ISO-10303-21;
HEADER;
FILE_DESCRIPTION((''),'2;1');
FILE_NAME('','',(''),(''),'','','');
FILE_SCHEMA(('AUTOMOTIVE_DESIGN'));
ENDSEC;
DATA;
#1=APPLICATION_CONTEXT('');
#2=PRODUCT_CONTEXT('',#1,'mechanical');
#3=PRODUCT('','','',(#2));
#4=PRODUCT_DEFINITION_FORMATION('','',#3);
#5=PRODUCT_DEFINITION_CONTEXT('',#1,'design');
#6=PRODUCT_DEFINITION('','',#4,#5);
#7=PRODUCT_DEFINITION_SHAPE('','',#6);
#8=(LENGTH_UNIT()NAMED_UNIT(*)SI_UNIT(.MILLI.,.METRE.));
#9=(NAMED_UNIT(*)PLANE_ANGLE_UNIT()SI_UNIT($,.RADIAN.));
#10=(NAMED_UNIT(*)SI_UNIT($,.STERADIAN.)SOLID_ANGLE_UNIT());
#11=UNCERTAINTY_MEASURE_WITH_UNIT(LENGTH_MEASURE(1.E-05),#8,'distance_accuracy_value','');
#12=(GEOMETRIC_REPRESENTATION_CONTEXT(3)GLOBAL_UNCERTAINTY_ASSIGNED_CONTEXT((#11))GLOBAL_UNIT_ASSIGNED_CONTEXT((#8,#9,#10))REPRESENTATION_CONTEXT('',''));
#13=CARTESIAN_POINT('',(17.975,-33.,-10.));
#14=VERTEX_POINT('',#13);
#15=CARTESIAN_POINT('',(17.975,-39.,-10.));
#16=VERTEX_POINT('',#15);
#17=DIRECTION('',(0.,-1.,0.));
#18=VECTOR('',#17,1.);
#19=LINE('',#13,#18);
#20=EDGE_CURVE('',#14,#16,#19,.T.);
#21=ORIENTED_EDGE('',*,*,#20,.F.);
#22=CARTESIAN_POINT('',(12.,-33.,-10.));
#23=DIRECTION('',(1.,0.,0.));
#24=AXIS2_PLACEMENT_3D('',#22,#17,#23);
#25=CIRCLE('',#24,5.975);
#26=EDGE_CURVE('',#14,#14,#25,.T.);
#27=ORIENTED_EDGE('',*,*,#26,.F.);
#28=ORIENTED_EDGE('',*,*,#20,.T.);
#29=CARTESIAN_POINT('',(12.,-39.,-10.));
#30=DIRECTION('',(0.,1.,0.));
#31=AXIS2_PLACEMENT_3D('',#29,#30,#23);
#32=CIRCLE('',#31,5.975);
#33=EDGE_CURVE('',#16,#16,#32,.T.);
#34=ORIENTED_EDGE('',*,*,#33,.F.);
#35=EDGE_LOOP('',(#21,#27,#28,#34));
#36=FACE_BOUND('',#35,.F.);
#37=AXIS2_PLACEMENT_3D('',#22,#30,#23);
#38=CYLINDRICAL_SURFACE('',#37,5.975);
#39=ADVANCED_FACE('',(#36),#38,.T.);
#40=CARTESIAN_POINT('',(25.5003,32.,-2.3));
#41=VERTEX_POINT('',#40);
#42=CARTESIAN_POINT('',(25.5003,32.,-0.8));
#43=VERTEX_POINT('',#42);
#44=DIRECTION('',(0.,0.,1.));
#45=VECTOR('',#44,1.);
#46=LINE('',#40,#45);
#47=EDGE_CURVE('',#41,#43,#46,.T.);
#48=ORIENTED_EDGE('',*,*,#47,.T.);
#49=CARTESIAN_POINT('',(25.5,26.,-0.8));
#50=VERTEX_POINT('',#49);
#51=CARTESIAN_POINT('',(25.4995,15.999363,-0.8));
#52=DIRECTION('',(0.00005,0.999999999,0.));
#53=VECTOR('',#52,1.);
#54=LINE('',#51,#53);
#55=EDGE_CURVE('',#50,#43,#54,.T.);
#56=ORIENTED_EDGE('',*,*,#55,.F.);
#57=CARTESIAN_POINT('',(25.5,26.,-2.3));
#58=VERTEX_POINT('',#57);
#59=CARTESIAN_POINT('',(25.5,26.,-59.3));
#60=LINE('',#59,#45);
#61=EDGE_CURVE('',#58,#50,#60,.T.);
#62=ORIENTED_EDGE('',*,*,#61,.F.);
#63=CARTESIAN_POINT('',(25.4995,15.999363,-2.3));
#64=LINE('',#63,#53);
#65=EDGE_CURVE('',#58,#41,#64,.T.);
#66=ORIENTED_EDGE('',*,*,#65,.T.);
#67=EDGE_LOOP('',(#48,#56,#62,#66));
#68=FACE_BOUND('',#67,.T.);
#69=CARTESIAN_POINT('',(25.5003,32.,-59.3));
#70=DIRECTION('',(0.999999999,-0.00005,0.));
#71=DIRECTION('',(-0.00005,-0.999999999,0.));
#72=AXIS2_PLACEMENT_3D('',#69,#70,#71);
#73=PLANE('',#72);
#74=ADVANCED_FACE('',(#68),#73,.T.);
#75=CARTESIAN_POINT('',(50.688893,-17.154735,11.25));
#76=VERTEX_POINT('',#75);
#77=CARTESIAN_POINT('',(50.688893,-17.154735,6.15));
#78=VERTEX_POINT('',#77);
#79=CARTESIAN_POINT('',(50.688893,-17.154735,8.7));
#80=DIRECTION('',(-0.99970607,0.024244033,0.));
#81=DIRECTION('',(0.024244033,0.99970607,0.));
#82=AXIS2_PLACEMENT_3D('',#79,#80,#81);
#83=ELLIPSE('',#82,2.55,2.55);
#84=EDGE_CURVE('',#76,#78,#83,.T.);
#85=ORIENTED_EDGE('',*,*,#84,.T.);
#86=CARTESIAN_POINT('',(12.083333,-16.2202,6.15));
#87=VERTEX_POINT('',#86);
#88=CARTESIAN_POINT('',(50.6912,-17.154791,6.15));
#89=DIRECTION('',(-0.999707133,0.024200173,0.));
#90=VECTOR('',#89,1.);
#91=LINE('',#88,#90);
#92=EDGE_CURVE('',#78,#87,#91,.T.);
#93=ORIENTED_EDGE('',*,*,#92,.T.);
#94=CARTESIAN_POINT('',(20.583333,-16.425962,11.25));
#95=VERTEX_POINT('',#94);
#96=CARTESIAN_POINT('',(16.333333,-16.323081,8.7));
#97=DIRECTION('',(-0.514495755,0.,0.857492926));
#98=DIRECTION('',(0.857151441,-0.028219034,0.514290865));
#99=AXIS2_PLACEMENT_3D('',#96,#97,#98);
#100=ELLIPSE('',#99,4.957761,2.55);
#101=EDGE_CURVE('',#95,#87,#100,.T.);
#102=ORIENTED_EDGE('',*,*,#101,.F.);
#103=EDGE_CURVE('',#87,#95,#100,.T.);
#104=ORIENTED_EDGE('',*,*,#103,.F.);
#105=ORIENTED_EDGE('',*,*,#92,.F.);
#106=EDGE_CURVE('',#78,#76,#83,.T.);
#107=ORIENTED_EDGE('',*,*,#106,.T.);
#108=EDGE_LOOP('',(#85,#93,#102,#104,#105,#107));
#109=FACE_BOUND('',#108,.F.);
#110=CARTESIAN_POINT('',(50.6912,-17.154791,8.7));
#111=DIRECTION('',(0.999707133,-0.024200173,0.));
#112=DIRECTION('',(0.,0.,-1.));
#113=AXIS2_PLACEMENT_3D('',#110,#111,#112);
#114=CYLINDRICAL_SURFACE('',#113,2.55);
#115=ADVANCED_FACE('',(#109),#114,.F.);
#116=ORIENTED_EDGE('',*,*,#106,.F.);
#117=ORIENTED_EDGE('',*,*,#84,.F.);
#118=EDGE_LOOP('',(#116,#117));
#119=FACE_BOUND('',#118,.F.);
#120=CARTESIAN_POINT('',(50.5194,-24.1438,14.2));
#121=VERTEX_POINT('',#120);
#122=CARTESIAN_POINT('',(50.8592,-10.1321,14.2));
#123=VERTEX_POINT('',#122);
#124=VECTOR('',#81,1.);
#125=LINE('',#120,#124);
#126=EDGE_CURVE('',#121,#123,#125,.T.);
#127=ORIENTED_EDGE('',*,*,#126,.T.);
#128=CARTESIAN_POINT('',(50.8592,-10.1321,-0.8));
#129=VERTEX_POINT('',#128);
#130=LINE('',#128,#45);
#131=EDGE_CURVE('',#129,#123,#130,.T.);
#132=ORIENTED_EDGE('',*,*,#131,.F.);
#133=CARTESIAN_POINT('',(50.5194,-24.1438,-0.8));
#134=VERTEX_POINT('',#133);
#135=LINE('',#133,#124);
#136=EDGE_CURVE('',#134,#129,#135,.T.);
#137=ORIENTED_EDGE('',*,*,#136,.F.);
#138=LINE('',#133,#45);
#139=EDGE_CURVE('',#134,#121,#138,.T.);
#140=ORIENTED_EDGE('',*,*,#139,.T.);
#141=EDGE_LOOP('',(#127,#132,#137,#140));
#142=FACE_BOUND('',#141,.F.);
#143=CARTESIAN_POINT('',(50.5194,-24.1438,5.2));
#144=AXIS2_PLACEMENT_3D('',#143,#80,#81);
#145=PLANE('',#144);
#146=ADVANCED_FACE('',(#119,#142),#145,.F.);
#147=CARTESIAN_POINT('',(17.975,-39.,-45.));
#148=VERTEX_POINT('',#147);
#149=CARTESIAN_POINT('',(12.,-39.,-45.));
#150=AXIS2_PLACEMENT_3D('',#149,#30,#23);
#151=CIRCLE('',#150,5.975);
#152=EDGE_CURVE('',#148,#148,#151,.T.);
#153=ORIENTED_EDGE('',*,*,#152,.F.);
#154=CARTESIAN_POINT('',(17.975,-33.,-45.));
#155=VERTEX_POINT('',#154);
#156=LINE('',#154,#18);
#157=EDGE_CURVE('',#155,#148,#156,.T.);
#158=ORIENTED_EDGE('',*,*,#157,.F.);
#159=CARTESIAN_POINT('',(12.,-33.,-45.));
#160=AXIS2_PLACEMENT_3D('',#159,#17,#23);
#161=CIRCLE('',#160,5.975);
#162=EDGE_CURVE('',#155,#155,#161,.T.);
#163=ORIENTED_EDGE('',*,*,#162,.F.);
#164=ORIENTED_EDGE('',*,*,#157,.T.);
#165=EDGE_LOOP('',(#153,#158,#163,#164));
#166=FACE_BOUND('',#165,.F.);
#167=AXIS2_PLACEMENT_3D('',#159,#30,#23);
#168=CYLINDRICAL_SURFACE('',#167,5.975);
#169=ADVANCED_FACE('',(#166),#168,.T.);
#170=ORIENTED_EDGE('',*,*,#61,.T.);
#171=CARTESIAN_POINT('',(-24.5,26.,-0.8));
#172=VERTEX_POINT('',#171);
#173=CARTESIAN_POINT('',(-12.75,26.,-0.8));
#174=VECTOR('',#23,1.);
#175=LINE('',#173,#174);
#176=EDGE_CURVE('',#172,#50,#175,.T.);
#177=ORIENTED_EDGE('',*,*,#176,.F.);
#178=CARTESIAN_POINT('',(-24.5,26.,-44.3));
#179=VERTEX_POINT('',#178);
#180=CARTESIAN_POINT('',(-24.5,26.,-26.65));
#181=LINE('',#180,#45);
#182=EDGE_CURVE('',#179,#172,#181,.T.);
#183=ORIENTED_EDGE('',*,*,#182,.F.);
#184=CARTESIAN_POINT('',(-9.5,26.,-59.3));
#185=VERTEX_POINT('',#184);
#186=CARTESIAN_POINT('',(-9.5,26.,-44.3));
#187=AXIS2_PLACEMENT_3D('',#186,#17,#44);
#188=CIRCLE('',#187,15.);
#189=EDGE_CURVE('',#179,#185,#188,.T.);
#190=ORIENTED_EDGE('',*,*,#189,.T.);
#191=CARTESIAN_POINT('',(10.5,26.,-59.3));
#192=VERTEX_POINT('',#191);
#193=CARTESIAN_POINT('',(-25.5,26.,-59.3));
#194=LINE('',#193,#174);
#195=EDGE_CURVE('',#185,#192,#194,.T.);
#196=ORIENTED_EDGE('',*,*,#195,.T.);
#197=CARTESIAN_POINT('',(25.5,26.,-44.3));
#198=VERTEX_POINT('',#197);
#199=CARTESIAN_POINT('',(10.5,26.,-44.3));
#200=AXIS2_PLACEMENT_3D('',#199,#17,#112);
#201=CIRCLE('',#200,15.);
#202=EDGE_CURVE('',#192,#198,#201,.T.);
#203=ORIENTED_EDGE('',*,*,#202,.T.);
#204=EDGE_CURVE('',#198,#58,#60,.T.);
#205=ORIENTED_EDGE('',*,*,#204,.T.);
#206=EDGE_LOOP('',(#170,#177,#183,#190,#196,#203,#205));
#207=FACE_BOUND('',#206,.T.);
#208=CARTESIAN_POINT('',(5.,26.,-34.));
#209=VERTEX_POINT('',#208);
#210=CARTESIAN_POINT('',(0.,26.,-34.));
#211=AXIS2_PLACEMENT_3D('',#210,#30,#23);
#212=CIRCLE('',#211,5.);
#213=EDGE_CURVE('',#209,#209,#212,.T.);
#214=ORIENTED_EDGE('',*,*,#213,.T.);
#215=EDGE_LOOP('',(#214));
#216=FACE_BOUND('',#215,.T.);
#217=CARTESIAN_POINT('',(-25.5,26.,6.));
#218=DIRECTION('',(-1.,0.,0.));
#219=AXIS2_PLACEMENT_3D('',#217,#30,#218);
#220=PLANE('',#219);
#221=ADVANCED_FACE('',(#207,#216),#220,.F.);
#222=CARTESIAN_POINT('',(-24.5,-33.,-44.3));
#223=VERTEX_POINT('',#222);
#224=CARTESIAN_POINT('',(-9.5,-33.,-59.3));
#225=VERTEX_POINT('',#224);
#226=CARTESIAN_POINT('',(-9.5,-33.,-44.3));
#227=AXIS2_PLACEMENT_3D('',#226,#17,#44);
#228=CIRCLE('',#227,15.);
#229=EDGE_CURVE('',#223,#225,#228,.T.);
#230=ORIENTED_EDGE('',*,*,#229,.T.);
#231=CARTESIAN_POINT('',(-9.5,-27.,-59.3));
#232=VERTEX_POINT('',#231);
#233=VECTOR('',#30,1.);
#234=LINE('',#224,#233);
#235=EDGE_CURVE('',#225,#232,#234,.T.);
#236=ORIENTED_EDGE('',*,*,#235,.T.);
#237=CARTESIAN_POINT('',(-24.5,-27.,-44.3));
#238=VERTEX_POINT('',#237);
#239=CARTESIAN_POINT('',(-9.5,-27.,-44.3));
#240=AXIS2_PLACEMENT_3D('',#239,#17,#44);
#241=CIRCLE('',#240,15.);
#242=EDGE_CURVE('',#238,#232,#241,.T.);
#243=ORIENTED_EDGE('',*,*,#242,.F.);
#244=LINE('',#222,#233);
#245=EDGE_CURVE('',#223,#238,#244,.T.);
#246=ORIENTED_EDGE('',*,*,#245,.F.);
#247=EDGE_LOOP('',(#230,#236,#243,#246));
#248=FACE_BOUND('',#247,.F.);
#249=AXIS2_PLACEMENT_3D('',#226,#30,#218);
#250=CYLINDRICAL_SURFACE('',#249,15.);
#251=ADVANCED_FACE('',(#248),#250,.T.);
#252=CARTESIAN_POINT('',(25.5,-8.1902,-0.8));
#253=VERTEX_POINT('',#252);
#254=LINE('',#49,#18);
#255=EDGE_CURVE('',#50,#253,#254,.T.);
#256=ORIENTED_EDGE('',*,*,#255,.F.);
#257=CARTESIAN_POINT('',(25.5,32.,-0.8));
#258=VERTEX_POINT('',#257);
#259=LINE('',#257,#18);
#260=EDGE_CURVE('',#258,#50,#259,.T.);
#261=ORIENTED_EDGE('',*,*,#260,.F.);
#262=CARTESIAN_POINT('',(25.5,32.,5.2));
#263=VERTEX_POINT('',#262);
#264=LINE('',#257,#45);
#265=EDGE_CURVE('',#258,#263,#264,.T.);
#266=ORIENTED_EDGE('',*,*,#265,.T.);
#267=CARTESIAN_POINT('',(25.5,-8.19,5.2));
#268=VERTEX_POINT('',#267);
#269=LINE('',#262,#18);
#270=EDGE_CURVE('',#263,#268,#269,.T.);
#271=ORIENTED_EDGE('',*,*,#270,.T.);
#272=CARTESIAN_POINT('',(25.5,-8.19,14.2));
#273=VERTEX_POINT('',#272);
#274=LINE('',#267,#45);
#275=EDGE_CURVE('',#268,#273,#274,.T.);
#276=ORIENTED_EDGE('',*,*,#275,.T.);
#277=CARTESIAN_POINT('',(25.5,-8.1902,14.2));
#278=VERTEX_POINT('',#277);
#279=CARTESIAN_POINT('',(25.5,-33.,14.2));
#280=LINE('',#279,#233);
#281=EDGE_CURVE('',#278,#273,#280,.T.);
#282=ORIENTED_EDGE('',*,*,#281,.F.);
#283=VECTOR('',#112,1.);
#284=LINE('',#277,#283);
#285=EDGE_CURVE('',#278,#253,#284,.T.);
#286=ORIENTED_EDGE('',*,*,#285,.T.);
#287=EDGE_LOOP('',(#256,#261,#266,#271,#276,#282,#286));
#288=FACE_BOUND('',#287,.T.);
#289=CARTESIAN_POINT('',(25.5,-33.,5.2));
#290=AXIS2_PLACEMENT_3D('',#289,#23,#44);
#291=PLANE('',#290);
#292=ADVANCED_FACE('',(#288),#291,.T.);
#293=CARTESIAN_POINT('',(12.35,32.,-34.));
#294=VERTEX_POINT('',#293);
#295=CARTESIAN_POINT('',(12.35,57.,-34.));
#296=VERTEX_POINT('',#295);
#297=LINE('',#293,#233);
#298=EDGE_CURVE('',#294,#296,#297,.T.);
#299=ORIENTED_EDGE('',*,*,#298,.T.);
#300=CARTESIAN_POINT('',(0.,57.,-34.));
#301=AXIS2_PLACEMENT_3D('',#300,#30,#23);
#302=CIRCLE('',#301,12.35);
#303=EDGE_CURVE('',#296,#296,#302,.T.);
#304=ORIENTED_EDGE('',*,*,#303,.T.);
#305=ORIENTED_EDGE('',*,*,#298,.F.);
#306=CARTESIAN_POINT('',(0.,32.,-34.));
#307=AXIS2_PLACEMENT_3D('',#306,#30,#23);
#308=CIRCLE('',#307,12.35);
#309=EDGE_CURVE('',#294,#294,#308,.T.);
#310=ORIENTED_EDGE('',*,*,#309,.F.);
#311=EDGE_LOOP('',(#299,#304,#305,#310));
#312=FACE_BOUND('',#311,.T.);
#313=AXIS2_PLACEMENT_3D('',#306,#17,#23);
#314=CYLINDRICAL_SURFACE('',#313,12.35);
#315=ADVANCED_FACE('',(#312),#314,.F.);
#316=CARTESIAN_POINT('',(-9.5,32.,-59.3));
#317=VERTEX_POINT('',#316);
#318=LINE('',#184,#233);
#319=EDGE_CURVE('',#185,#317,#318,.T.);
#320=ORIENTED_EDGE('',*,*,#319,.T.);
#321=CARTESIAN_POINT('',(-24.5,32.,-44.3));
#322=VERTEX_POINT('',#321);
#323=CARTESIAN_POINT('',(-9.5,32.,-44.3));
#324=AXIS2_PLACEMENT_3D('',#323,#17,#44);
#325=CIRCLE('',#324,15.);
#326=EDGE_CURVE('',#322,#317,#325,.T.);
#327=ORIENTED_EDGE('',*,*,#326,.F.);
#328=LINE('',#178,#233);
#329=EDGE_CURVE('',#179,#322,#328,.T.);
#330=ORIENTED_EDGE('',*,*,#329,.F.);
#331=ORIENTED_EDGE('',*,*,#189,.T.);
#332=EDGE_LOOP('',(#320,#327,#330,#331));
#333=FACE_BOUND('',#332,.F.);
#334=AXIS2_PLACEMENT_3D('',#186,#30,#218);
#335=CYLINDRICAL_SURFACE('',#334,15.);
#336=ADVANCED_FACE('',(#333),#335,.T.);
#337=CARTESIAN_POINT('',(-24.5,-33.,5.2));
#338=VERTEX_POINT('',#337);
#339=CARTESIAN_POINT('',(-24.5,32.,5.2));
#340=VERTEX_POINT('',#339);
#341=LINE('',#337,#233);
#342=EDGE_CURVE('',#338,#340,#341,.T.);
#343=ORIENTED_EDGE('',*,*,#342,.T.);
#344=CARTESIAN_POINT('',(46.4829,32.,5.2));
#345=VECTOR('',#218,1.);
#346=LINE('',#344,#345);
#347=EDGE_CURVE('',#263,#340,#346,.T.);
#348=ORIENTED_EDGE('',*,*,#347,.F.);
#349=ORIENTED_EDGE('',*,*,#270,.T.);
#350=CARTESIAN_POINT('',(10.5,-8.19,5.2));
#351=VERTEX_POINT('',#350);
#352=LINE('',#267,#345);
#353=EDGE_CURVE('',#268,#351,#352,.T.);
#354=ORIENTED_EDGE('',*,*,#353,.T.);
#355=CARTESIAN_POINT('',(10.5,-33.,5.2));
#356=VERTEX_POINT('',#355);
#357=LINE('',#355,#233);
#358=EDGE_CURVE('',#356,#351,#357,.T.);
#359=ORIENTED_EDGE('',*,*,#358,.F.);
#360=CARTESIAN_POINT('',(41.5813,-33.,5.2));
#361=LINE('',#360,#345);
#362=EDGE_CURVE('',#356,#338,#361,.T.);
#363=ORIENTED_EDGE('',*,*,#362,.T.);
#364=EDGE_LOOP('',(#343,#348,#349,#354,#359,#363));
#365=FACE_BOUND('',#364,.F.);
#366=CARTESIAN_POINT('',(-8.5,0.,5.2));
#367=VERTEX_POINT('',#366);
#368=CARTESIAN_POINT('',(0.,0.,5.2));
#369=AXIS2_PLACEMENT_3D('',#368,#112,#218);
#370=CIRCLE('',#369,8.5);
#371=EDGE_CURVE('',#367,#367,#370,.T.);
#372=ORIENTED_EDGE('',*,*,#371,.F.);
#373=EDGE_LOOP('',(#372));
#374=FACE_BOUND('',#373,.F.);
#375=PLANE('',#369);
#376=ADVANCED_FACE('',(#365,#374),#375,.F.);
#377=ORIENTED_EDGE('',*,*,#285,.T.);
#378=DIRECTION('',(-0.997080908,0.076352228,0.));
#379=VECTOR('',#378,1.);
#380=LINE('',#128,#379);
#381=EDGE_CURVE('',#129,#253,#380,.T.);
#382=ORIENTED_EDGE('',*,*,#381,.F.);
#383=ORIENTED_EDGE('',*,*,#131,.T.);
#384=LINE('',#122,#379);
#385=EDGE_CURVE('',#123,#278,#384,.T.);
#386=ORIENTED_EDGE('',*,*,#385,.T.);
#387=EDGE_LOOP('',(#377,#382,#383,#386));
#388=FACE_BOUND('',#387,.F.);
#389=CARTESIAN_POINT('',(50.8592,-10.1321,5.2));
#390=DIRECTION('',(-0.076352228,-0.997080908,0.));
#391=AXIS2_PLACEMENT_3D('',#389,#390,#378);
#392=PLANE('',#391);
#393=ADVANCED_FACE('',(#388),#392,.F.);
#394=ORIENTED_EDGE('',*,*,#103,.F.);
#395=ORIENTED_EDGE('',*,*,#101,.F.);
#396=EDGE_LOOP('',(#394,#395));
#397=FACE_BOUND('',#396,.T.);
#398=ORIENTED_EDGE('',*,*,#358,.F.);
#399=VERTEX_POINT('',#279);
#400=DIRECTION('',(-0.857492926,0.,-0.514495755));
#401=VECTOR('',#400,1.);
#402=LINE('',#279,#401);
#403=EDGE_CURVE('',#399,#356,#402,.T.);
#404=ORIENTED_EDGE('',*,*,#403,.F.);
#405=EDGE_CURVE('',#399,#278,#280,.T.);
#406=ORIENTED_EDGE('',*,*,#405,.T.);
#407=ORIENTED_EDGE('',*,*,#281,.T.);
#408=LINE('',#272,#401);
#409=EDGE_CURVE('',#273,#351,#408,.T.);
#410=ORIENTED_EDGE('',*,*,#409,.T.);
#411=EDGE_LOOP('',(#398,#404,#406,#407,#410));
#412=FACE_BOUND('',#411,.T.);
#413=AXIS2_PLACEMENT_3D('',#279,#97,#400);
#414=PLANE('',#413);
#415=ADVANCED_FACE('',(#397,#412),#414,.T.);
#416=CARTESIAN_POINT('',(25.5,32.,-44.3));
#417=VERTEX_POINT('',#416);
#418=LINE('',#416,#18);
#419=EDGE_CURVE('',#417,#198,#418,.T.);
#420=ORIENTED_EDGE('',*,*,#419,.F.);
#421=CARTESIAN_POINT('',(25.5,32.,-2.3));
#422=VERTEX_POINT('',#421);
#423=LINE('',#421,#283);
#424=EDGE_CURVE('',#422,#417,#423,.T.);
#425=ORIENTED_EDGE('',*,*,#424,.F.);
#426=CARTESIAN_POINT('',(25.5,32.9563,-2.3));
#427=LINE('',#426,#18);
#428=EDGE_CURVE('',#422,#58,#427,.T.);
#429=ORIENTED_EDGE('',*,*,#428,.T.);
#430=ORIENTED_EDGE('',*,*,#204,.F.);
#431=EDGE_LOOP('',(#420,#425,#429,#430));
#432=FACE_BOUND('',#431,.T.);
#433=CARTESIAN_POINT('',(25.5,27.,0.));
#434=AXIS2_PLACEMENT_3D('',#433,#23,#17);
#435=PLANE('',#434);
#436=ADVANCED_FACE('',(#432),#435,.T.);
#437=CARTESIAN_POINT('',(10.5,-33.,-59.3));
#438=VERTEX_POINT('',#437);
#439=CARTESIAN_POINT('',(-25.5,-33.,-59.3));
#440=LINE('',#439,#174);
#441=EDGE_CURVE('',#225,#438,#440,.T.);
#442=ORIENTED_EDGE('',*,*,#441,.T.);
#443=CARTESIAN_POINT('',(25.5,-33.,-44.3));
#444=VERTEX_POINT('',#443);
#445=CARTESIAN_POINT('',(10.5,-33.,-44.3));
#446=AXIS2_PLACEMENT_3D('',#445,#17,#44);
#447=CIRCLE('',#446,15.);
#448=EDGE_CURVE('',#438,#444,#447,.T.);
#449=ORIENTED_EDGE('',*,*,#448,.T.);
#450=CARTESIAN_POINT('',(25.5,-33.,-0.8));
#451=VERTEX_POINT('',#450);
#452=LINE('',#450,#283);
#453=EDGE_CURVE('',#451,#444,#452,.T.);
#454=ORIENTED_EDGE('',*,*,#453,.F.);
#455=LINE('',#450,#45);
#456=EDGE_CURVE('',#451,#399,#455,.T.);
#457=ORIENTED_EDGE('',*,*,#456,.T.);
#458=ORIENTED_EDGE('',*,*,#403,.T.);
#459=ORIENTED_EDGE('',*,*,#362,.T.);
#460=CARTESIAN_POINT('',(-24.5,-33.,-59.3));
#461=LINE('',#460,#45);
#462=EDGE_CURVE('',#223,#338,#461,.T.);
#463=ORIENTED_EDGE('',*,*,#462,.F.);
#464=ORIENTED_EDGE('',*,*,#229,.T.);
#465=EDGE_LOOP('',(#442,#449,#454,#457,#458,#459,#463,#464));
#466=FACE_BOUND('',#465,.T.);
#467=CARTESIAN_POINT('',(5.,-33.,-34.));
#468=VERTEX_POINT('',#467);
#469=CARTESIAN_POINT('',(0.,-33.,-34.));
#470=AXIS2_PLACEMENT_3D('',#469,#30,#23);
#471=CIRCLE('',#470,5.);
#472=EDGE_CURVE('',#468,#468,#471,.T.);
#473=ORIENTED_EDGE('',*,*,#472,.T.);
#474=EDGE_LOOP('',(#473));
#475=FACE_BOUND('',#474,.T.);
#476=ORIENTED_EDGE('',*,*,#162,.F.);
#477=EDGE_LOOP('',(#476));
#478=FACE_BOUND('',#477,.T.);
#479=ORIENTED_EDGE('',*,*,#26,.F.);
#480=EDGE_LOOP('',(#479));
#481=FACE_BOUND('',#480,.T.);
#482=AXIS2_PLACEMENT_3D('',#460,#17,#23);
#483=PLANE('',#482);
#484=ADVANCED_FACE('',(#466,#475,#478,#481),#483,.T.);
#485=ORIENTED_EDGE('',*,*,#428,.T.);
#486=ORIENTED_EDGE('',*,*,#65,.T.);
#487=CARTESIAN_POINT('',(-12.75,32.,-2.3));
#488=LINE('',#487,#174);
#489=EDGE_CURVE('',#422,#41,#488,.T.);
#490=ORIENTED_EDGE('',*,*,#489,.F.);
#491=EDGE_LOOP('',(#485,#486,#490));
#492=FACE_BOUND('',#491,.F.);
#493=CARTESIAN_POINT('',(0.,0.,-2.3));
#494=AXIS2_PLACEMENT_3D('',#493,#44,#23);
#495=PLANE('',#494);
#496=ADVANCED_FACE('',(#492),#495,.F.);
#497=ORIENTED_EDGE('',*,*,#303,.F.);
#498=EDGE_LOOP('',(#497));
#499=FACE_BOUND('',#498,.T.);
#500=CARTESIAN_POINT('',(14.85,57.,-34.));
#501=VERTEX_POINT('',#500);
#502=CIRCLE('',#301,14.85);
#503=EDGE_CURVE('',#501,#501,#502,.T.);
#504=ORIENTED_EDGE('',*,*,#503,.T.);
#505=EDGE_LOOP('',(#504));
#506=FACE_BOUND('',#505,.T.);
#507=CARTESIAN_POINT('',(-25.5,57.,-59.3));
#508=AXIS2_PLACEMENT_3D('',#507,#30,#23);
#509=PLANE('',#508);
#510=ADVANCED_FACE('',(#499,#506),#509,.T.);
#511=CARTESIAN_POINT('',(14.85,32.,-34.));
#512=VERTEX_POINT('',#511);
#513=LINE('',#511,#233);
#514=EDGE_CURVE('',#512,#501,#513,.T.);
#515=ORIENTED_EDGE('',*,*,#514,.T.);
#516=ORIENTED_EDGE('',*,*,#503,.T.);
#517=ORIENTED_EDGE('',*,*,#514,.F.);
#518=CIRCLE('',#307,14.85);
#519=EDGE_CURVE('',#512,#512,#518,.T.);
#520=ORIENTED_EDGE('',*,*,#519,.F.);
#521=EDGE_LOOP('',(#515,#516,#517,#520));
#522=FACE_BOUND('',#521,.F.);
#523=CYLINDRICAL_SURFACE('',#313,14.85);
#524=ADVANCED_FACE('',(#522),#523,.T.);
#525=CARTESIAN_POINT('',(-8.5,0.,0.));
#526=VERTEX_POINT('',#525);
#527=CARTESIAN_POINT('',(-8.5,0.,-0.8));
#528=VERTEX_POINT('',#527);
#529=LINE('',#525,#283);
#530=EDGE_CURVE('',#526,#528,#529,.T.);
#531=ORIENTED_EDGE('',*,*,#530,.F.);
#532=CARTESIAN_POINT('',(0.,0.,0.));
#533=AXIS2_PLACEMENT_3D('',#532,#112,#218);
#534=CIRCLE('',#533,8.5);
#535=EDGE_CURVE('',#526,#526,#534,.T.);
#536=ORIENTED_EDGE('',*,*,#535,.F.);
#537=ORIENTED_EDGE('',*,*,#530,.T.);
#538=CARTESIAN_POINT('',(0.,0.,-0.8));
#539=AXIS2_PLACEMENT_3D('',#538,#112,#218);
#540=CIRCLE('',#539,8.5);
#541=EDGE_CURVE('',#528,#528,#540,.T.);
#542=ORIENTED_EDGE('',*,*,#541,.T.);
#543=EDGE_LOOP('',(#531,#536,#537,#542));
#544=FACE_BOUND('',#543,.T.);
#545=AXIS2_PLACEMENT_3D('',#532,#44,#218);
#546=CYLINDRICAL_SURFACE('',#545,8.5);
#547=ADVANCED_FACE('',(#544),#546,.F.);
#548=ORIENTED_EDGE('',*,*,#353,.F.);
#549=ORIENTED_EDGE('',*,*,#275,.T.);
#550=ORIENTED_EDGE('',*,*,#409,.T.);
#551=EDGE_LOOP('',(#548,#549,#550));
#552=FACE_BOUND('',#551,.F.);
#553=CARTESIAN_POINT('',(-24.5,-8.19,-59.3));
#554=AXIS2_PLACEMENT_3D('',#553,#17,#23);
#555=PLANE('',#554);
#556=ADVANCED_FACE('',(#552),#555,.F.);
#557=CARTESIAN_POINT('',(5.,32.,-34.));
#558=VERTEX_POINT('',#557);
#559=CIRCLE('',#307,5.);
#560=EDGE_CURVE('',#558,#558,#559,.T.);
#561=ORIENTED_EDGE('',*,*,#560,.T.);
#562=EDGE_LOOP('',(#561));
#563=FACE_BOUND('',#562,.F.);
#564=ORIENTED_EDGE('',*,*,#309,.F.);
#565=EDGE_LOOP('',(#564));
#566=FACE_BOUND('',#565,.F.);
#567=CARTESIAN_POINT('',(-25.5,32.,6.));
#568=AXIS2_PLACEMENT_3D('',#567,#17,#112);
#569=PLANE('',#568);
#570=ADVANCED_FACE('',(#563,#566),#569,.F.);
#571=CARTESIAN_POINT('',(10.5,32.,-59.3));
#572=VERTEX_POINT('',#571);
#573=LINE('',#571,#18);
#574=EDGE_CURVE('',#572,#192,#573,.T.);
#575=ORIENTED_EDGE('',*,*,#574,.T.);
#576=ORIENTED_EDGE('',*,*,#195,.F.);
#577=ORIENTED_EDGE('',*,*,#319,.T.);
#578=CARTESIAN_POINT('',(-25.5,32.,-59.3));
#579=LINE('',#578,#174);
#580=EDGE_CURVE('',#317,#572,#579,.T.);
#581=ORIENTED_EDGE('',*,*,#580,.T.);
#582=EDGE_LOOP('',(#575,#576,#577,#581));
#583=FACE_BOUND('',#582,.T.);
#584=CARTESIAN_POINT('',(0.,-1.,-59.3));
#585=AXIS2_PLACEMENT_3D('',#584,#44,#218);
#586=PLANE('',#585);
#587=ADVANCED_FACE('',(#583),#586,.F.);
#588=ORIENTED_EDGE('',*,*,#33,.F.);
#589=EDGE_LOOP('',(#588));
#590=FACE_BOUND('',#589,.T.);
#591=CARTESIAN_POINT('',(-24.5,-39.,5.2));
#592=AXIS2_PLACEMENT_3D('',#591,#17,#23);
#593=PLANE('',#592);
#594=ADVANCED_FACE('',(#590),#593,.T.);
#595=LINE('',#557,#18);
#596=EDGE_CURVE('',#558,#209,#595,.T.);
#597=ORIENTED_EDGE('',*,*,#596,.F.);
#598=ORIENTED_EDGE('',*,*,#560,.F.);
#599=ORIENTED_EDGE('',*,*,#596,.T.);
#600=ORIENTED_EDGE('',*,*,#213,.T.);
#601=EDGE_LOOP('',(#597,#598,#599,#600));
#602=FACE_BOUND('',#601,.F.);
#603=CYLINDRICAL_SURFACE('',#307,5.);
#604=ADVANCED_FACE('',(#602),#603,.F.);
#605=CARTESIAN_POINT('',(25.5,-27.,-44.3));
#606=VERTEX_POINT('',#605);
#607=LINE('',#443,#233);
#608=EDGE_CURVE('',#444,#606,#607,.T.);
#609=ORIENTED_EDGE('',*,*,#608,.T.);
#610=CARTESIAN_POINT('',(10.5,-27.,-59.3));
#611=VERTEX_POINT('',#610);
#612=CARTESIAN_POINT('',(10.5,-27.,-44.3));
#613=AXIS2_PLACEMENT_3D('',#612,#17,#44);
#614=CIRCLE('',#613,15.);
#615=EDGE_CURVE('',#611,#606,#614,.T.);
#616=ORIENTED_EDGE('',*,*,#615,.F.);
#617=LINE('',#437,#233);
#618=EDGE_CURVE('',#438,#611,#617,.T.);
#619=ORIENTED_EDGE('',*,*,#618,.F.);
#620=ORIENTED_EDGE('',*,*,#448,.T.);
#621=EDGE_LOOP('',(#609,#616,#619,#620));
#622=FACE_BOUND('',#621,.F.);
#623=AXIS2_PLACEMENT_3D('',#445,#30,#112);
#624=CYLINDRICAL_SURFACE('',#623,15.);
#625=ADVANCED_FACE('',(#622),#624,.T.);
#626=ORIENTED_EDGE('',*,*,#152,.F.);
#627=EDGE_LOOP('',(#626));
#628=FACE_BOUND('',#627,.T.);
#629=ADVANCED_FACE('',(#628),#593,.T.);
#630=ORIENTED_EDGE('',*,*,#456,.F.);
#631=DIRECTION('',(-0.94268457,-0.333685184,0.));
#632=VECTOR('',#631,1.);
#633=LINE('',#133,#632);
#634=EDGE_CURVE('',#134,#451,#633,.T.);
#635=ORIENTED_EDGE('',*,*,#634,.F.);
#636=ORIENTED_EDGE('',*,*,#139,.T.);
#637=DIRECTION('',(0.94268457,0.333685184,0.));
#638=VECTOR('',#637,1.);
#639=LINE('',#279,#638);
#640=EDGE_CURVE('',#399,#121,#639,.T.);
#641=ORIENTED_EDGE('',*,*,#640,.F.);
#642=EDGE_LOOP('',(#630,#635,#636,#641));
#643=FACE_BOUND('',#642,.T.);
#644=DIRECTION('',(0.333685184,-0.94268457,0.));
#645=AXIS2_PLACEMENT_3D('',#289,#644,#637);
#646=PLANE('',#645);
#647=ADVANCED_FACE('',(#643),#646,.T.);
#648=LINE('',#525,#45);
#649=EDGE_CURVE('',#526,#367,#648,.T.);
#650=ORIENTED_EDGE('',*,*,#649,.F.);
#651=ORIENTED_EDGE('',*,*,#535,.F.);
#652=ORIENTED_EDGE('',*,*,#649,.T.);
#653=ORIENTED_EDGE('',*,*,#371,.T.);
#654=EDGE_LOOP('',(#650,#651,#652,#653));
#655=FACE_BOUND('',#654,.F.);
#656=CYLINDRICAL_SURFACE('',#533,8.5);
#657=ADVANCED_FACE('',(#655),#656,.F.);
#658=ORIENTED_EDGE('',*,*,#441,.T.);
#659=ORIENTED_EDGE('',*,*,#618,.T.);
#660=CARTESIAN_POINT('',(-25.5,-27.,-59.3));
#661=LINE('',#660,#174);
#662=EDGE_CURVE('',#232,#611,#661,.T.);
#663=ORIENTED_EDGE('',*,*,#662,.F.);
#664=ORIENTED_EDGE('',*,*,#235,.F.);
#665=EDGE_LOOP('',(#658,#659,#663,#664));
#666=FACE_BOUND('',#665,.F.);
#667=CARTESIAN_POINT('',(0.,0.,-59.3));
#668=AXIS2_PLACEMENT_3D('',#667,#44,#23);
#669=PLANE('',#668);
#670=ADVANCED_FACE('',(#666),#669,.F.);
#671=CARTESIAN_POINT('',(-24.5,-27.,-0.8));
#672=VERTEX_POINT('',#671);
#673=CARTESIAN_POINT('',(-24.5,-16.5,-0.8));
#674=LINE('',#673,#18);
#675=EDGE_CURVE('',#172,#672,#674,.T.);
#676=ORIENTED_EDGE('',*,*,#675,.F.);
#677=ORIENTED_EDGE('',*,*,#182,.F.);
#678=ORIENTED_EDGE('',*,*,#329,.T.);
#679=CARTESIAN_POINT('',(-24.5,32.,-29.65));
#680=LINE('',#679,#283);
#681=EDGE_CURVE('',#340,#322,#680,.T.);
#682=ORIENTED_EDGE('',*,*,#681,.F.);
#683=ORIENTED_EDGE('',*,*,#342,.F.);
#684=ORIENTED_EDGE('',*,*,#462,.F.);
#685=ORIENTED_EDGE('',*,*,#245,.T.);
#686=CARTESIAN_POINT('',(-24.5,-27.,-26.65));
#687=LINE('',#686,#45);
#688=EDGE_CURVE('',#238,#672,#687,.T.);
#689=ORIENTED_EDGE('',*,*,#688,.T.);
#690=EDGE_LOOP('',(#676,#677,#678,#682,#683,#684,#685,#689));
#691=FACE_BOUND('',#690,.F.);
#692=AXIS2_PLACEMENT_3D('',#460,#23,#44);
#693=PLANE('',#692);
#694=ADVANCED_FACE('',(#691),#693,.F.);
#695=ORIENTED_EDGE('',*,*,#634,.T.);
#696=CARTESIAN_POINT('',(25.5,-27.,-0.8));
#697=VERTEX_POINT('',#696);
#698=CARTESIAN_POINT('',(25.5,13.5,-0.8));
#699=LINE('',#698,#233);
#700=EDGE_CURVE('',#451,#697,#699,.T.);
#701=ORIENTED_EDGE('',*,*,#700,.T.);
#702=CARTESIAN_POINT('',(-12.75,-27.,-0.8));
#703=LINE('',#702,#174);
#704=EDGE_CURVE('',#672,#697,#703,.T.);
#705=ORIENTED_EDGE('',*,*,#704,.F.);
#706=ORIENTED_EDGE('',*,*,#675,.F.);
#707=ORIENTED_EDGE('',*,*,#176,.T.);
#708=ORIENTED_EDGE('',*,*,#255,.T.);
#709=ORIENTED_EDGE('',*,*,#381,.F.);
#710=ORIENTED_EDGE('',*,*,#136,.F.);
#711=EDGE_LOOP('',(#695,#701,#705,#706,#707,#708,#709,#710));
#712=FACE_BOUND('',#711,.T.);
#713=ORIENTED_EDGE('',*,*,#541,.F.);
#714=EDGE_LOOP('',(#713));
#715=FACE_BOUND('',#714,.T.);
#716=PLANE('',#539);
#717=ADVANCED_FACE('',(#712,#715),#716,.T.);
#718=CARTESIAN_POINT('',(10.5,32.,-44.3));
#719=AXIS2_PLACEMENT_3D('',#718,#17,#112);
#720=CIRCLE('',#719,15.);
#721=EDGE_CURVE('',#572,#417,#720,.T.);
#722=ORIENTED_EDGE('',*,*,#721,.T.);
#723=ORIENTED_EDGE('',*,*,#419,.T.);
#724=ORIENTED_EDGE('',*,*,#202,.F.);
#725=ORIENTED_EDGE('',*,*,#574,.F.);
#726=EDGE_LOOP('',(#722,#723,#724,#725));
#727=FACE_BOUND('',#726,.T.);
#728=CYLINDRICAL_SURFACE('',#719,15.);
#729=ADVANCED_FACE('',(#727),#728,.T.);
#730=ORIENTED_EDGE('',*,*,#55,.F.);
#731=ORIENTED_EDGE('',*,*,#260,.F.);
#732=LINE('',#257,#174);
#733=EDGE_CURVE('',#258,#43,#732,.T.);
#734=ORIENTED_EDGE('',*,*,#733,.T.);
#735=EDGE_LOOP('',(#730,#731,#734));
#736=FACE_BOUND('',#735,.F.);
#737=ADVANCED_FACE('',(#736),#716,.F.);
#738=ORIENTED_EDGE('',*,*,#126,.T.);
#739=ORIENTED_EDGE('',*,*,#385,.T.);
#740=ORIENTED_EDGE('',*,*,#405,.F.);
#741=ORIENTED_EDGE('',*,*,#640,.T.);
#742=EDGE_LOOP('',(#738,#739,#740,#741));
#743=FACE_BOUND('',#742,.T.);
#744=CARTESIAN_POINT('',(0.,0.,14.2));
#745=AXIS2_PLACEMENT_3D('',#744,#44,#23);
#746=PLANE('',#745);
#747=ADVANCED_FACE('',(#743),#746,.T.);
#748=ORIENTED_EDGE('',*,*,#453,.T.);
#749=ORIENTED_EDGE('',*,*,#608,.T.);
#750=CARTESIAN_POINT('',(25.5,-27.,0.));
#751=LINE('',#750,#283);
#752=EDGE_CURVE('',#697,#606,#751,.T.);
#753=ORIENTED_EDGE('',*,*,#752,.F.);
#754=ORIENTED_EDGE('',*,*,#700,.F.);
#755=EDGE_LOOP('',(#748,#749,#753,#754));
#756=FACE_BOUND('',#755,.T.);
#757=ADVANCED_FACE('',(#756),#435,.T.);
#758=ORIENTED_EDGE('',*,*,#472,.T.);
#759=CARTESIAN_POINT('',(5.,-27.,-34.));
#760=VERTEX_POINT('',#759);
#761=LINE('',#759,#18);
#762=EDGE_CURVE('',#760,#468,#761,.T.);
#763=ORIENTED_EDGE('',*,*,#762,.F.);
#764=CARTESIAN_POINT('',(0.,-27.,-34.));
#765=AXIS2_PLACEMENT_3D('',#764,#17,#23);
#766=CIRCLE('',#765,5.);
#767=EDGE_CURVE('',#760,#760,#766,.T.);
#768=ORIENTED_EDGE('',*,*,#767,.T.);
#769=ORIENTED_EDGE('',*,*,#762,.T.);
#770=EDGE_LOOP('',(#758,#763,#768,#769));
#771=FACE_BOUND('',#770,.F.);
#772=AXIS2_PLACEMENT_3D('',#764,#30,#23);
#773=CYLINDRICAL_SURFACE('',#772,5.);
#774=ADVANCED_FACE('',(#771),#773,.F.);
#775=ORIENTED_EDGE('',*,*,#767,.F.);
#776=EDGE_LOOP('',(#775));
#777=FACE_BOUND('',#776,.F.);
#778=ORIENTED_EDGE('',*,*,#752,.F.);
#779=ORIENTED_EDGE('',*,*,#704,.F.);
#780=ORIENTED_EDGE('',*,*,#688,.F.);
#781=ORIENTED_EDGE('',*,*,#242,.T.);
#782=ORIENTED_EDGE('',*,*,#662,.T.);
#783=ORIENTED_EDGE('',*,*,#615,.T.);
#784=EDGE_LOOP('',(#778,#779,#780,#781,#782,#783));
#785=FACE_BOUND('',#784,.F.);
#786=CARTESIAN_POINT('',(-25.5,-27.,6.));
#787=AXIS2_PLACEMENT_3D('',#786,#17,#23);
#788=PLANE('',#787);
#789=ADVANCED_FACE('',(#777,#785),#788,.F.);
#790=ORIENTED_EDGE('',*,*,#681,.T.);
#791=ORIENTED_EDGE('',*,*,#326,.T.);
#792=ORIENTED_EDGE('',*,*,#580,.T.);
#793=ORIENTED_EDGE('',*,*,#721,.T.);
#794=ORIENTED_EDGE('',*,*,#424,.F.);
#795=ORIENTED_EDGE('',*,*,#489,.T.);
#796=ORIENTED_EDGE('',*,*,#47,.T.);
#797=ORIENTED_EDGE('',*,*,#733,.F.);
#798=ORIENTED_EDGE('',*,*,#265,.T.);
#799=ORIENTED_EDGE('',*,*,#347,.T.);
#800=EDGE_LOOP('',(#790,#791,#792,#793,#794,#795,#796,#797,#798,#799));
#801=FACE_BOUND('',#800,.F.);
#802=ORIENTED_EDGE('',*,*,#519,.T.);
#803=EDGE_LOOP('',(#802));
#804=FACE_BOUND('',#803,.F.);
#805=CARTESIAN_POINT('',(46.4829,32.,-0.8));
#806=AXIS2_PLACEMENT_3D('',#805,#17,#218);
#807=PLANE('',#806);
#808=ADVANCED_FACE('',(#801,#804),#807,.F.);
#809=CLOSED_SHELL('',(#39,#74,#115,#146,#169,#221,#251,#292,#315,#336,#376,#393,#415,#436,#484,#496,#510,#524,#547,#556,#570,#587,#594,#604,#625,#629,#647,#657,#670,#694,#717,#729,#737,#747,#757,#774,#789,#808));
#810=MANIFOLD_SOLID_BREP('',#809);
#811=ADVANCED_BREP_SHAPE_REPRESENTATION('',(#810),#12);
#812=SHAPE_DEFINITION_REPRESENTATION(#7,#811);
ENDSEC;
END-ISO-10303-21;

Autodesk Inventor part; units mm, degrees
sketch "Sketch1" plane through (0, 0, 0) normal (0, 0, 1) x (1, 0, 0)
  line L0 (25.5, -27) -> (-25.5, -27)
  line L1 (-25.5, -27) -> (-25.5, 27)
  line L2 (-25.5, 27) -> (25.5, 27)
  line L3 (25.5, 27) -> (25.5, -27)
  line L4 (25.5, -27) -> (-25.5, 27) construction
  line L5 (-25.5, -27) -> (25.5, 27) construction
  point P0 (0, 0)
  dimension "d0" = 51
  dimension "d1" = 54
extrude "Extrusion1" add sketch "Sketch1" along normal blind 6
sketch "Sketch2" plane through (0, 0, 6) normal (0, 0, 1) x (1, 0, 0)
  circle A0 centre (0, 0) radius 15
  dimension "d4" = 30
sketch "Sketch4" plane through (0, 0, 6) normal (0, 0, 1) x (1, 0, 0)
  line L0 (-25.5, 27) -> (26.5, 27)
  line L1 (-25.5, -27) -> (25.5, -27) projected
  line L2 (25.5, -27) -> (-25.5, -27)
  line L3 (-25.5, -27) -> (-25.5, -33)
  line L4 (-25.5, -33) -> (25.5, -33)
  line L5 (25.5, -33) -> (25.5, -27)
  point P0 (0, 0)
  dimension "d109" = 51
  dimension "d110" = 6
extrude "Extrusion4" add sketch "Sketch4" against normal blind 65.3
ref_plane "Plano de trabajo8" through (25.5, -33.8, -42) normal (1, 0, 0) x (0, 0, -1)
ref_plane "Work Plane9" through (-10.5, -27, -57) normal (0, 1, 0) x (1, 0, 0)
sketch "Sketch25" plane through (-10.5, -27, -57) normal (0, 1, 0) x (1, 0, 0)
  line L0 (0, 0) -> (21, 0) projected
  line L1 (10.5, 0) -> (10.5, -23)
  circle A0 centre (10.5, -23) radius 5
  line L2 (10.5, -23) -> (10.5, -63)
  line L3 (36, -63) -> (-15, -63) projected
  point P0 (10.5, -57)
  dimension "d111" = 23
  dimension "d112" = 10
extrude "Extrusion22" cut sketch "Sketch25" against normal blind 68
ref_plane "Work Plane7" through (-10.5, -0.5, -57) normal (0, 1, 0) x (1, 0, 0)
mirror "Mirror2" about plane through (-10.5, -0.5, -57) normal (0, 1, 0) of "Extrusion4"
extrude "Extrusión28" cut sketch "Sketch2" against normal blind 10
ref_plane "Work Plane10" through (25.5, -34, -42) normal (1, 0, 0) x (0, 0, -1)
ref_plane "Work Plane11" through (-25.5, -87, 1.3) normal (0, 1, 0) x (1, 0, 0)
sketch "Sketch37" plane through (-25.5, 32, 6) normal (0, 1, 0) x (1, 0, 0)
  circle A0 centre (25.5, 40) radius 5 projected
  point P0 (25.5, 6)
extrude "Extrusion33" cut sketch "Sketch37" against normal blind 68
sketch "Sketch43" plane through (0, 0, 6) normal (0, 0, 1) x (1, 0, 0)
  circle A0 centre (0, 0) radius 10.4895
  circle A1 centre (0, 0) radius 15 projected
  circle A2 centre (0, 0) radius 5
  dimension "d182" = 10
extrude "Extrusion40" add sketch "Sketch43" against normal blind 8.3 contours A0 | A1
sketch "Boceto48" plane through (-25.5, -33, 6) normal (0, -1, 0) x (1, 0, 0)
  point P0 (25.5, -6)
sketch "Boceto49" plane through (-25.5, -33, 6) normal (0, -1, 0) x (1, 0, 0)
  point P0 (25.5, -6)
sketch "Boceto50" plane through (25.5, 26, -59.3) normal (0, 0, -1) x (-1, 0, 0)
  point P0 (25.5, -26)
sketch "Boceto77" plane through (0, 0, 6) normal (0, 0, 1) x (1, 0, 0)
  point P0 (0, 0)
sketch "Boceto84" plane through (25.5, -33, -59.3) normal (1, 0, 0) x (0, 0, -1)
  line L0 (-65.3, 0) -> (-65.3, 65) projected
  line L1 (-65.3, 0) -> (-65.3, 32.3804)
  line L2 (-65.3, 32.3804) -> (-80.5662, 32.3804)
  line L3 (-80.5662, 32.3804) -> (-80.5662, -6.9517)
  line L4 (-80.5662, -6.9517) -> (-65.3, -6.9517)
  line L5 (-65.3, -6.9517) -> (-65.3, 0)
  point P0 (-59.3, 33)
  point P1 (-65.3, 66.9563)
  point P2 (-65.3, 65.9563)
extrude "Extrusión80" cut sketch "Boceto84" along normal mid plane 100
sketch "Boceto85" plane through (0, 0, 0) normal (0, 0, -1) x (-1, 0, 0)
  line L0 (-25.5, -33) -> (-25.5, -4.0448)
  line L1 (-25.5, -27) -> (-25.5, 26) projected
  line L2 (-25.5, -4.0448) -> (-53.9802, -4.6672)
  line L3 (-53.9802, -4.6672) -> (-54.6281, -33.6366)
  line L4 (-54.6281, -33.6366) -> (-25.5, -33)
  point P0 (0, 0)
  point P1 (-25.5, -13.7947)
extrude "Extrusión81" cut sketch "Boceto85" along normal mid plane 100
sketch "Boceto90" plane through (0, 0, 6) normal (0, 0, 1) x (1, 0, 0)
  circle A0 centre (0, 0) radius 5.2249
  circle A1 centre (0, 0) radius 14.4421
extrude "Extrusión86" add sketch "Boceto90" along normal blind 4.7
fillet "Empalme20" radius 2 1 edges at (-14.4421, 0, 6)
sketch "Boceto91" plane through (0, 0, 0) normal (0, 0, -1) x (-1, 0, 0)
  point P0 (0, 0)
sketch "Boceto92" plane through (0, 0, 0) normal (0, 0, -1) x (-1, 0, 0)
  point P0 (0, 0)
sketch "Boceto93" plane through (0, 0, 0) normal (0, 0, -1) x (-1, 0, 0)
  line L0 (-25.5, -27) -> (-25.5, 26) projected
  line L1 (-25.5, 1.3668) -> (-41.5813, 1.3668)
  line L2 (-41.5813, 1.3668) -> (-41.5813, -33)
  line L3 (-25.5, -33) -> (-41.5813, -33)
  line L4 (-25.5, -33) -> (-25.5, 32.9563) projected
  line L5 (-25.5, 1.3668) -> (-25.5, -33)
  point P0 (0, 0)
extrude "Extrusión87" add sketch "Boceto93" against normal blind 8.3
sketch "Boceto94" plane through (0, 0, 6) normal (0, 0, 1) x (1, 0, 0)
  line L0 (41.5813, -33) -> (41.5813, 1.3668) projected
  line L1 (41.5813, 1.3668) -> (41.5813, 35.5236)
  line L2 (-25.5, 32.9563) -> (25.5, 32.9563) projected
  line L3 (25.5, 32.9563) -> (41.5813, 32.9563)
  line L4 (25.5, 32.9563) -> (25.5, 1.3668)
  line L5 (25.5, 1.3668) -> (41.5813, 1.3668)
  point P0 (0, 0)
extrude "Extrusión88" add sketch "Boceto94" against normal blind 8.3
sketch "Boceto95" plane through (0, 0, 6) normal (0, 0, 1) x (1, 0, 0)
  circle A0 centre (37.8913, -24.81) radius 2.6
  line L0 (35.2913, -24.81) -> (37.8913, -24.81)
  point P0 (0, 0)
  point P1 (41.5813, -33)
  dimension "d305" = 5.2
extrude "Extrusión89" cut sketch "Boceto95" against normal blind 8.3
sketch "Boceto97" plane through (-25.5, -33, -59.3) normal (-1, 0, 0) x (0, 0, 1)
  line L0 (59.3, 0) -> (67.6, 0) projected
  line L1 (67.6, 0) -> (89.1392, 0)
  line L2 (89.1392, 0) -> (89.1392, 69.8717)
  line L3 (89.1392, 69.8717) -> (67.6, 69.8717)
  line L4 (67.6, 69.8717) -> (67.6, 0)
  point P0 (59.3, 33)
extrude "Extrusión92" cut sketch "Boceto97" against normal blind 1000
sketch "Boceto98" plane through (-25.5, -33, -59.3) normal (-1, 0, 0) x (0, 0, 1)
  line L0 (59.3, 59) -> (59.3, 6) projected
  line L1 (59.3, 59) -> (58.3, 59) projected
  line L2 (59.3, 6) -> (59.3, 59)
  line L3 (59.3, 59) -> (56.1979, 59)
  line L4 (59.3, 59) -> (0, 59) projected
  line L5 (56.1979, 59) -> (56.1979, 6)
  line L6 (59.3, 6) -> (0, 6) projected
  line L7 (56.1979, 6) -> (59.3, 6)
  line L8 (65.3, 65) -> (0, 65) projected
  line L9 (56.1979, 65) -> (56.1979, 67.4992)
  line L10 (56.1979, 67.4992) -> (67.7631, 67.4992)
  line L11 (67.7631, 67.4992) -> (76.364, 67.4992)
  line L12 (76.364, 67.4992) -> (76.364, -7.6447)
  line L13 (65.3, 0) -> (65.3, 34.3668) projected
  line L14 (65.3, 0) -> (65.3, -7.6447)
  line L15 (65.3, -7.6447) -> (76.364, -7.6447)
  line L16 (65.3, 0) -> (65.3, 65)
  line L17 (65.3, 0) -> (65.3, 65) projected
  line L18 (56.1979, 65) -> (65.3, 65)
  point P0 (59.3, 33)
  point P1 (59.3, 51.8098)
  point P2 (58.3, 65)
  point P3 (65.3, 65.9563)
  point P4 (59.3, 51.8098)
  point P5 (58.3, 65)
  point P6 (65.3, 34.3668)
extrude "Extrusión93" cut sketch "Boceto98" along normal mid plane 1000
sketch "Boceto99" plane through (41.5813, -33, 0) normal (1, 0, 0) x (0, 0, -1)
  line L0 (0, 58.9816) -> (2.3, 58.9816)
  line L1 (2.3, 65) -> (2.3, 59) projected
  line L2 (2.3, 58.9816) -> (2.3, 65)
  line L3 (2.3, 65) -> (2.3, 58.9816)
  line L4 (2.3, 65) -> (0, 65)
  line L5 (-6, 65) -> (59.3, 65) projected
  line L6 (0, 58.9816) -> (0, 65)
  point P0 (0, 33)
extrude "Extrusión94" cut sketch "Boceto99" against normal blind 16.081
sketch "Boceto100" plane through (25.5, 26, -59.3) normal (0, 0, -1) x (-1, 0, 0)
  line L0 (-16.0813, 6) -> (-0.0003, 6) projected
  line L1 (0, 0) -> (-16.0813, 0)
  line L2 (-16.0813, 0) -> (-16.0813, 6)
  line L3 (-16.0813, 6) -> (0, 6)
  line L4 (0, 6) -> (0, 0)
  point P0 (25.5, -26)
  point P1 (-0.0003, 6)
extrude "Extrusión95" cut sketch "Boceto100" against normal blind 59.3
sketch "Boceto101" plane through (0, 0, 0) normal (0, 0, -1) x (-1, 0, 0)
  circle A0 centre (0, 0) radius 8.5
  dimension "d322" = 17
extrude "Extrusión96" cut sketch "Boceto101" against normal blind 59.3
sketch "Boceto102" plane through (-25.5, 32, -59.3) normal (0, 1, 0) x (1, 0, 0)
  circle A0 centre (25.5, -25.3) radius 5 projected
  circle A1 centre (25.5, -25.3) radius 12.35
  circle A2 centre (25.5, -25.3) radius 14.85
  point P0 (25.5, -59.3)
  dimension "d325" = 24.7
  dimension "d326" = 29.7
extrude "Extrusión97" add sketch "Boceto102" along normal blind 25 contours A2
sketch "Boceto103" plane through (-25.5, -27, -59.3) normal (0, 1, 0) x (1, 0, 0)
  point P0 (25.5, -59.3)
sketch "Boceto104" plane through (0, 0, 6) normal (0, 0, 1) x (1, 0, 0)
  line L0 (-25.5, -33) -> (-25.5, 32) projected
  line L1 (41.5813, 32) -> (41.5813, -33) projected
  line L2 (-25.5, 32) -> (41.5813, 32)
  line L3 (41.5813, 32) -> (41.5813, -33)
  line L4 (41.5813, -33) -> (-25.5, -33)
  line L5 (-25.5, -33) -> (-25.5, 32)
  point P0 (0, 0)
extrude "Extrusión98" cut sketch "Boceto104" against normal blind 0.8
sketch "Boceto105" plane through (0, 0, 0) normal (0, 0, -1) x (-1, 0, 0)
  line L0 (-25.5, -33) -> (25.5, -33) projected
  line L1 (-41.5813, 32) -> (25.5, 32)
  line L2 (25.5, 32) -> (25.5, -33)
  line L3 (25.5, -33) -> (-41.5813, -33)
  line L4 (-41.5813, -33) -> (-41.5813, 32)
  circle A0 centre (-37.8913, -24.81) radius 2.6 projected
  circle A1 centre (-37.8913, -24.81) radius 2.6
  circle A2 centre (0, 0) radius 8.5
extrude "Extrusión99" add sketch "Boceto105" along normal blind 0.8
sketch "Boceto106" plane through (-25.5, -33, -59.3) normal (0, -1, 0) x (1, 0, 0)
  line L0 (0, 0) -> (51, 0) projected
  line L1 (67.0813, 64.5) -> (0, 64.5) projected
  line L2 (0, 0) -> (1, 0)
  line L3 (1, 0) -> (1, 64.5)
  line L4 (1, 64.5) -> (0, 64.5)
  line L5 (0, 64.5) -> (0, 0)
  point P0 (25.5, 59.3)
  point P1 (0, 64.5)
  point P2 (1, 0)
  dimension "d333" = 1
extrude "Extrusión100" cut sketch "Boceto106" against normal blind 1000
sketch "Boceto107" plane through (0, 0, -0.8) normal (0, 0, -1) x (-1, 0, 0)
  line L0 (-25.5, -33) -> (-25.5, -38.9196)
  line L1 (-25.5, -38.9196) -> (-33.0828, -52.767)
  line L2 (-33.0828, -52.767) -> (-34.3078, -45.7968) construction
  line L3 (-41.5813, -33) -> (24.5, -33) projected
  spline S0 degree 3 poles (-33.0828, -52.767) (-34.3078, -45.7968) (-36.0426, -41.6296) (-38.17, -38.0712) knots 1 1 1 1 1.670244 1.670244 1.670244 1.670244
  line L4 (-41.5813, 32) -> (-41.5813, -33) projected
  line L5 (-37.8729, -38.2076) -> (-46.4829, -34.2556)
  line L6 (-46.4829, -34.2556) -> (-46.4829, 32)
  line L7 (-46.4829, 32) -> (-41.5813, 32)
  line L8 (-34.3078, -45.7968) -> (-36.0426, -41.6296) construction
  line L9 (-36.0426, -41.6296) -> (-38.17, -38.0712) construction
  point P0 (0, 0)
extrude "Extrusión101" add sketch "Boceto107" against normal blind 6
fillet "Empalme21" radius 2 2 edges at (38.17, -38.0712, 2.2) (46.4829, -34.2556, 2.2)
sketch "Boceto108" plane through (-24.5, -33, 5.2) normal (0, -1, 0) x (1, 0, 0)
  circle A0 centre (24.5, -39.2) radius 5 projected
  line L0 (50, -6) -> (0, -6) projected
  circle A1 centre (36.5, -15.2) radius 5.975
  circle A2 centre (36.5, -50.2) radius 5.975
  line L1 (36.5, -15.2) -> (36.5, -50.2)
  point P0 (24.5, -5.2)
  dimension "d344" = 11.95
  dimension "d345" = 11.95
  dimension "d392" = 35
extrude "Extrusión102" add sketch "Boceto108" along normal blind 6 contours A1 | A2
sketch "Boceto109" plane through (0, 0, -0.8) normal (0, 0, -1) x (-1, 0, 0)
  line L0 (-45.3172, -34.7906) -> (-38.7421, -37.8086) projected
  line L1 (-45.3172, -34.7906) -> (-49.6596, -32.7974)
  line L2 (-49.6596, -32.7974) -> (-49.6596, 32)
  line L3 (-46.4829, 32) -> (-46.4829, -32.9729) projected
  line L4 (-49.6596, 32) -> (-46.4829, 32)
  arc A0 (-46.4829, -32.9729) -> (-45.3172, -34.7906) centre (-44.4829, -32.9729) ccw projected
  line L5 (-46.4829, 32) -> (-45.3172, -34.7906)
  point P0 (0, 0)
extrude "Extrusión103" add sketch "Boceto109" against normal blind 6 contours L1 L2 L4 L3 A0
fillet "Empalme23" radius 4 2 edges at (49.6596, -32.7974, 2.2) (49.6596, 32, 2.2)
sketch "Boceto110" plane through (0, 0, 5.2) normal (0, 0, 1) x (1, 0, 0)
  line L0 (33.0828, -52.767) -> (25.5, -38.9196) projected
  line L1 (25.5, -38.9196) -> (37.9157, -38.9196)
  line L2 (37.9157, -38.9196) -> (33.0828, -52.767)
  line L3 (33.0828, -52.767) -> (25.5, -38.9196)
  point P0 (0, 0)
extrude "Extrusión104" cut sketch "Boceto110" against normal blind 10
sketch "Sketch111" plane through (0, 0, 5.2) normal (0, 0, 1) x (1, 0, 0)
  line L0 (25.5, -33) -> (25.5, -38.9196) projected
  line L1 (38.7421, -37.8086) -> (47.3283, -33.8675) projected
  line L2 (25.5, -33) -> (47.3283, -33.8675)
  line L3 (37.6774, -38.9196) -> (25.5, -38.9196) projected
  line L4 (25.5, -38.9196) -> (37.6774, -38.9196)
  line L5 (37.6774, -38.9196) -> (38.7421, -37.8086)
  point P0 (0, 0)
extrude "Extrusion105" cut sketch "Sketch111" against normal blind 10
sketch "Sketch114" plane through (0, 0, -0.8) normal (0, 0, -1) x (-1, 0, 0)
  line L0 (-25.5, 32) -> (-25.5, 26) projected
  line L1 (-25.5, 26) -> (-25.5, 32)
  line L2 (-25.5, 32) -> (-25.5, -13.2226)
  line L3 (-25.5, -13.2226) -> (-49.6596, -13.2226)
  line L4 (-49.6596, -30.2322) -> (-49.6596, 28) projected
  line L5 (-49.6596, 28) -> (-49.6596, -30.2322) projected
  line L6 (-49.6596, -13.2226) -> (-49.6596, 28)
  line L7 (-25.5, 32) -> (-45.6596, 32) projected
  arc A0 (-45.6596, 32) -> (-49.6596, 28) centre (-45.6596, 28) ccw projected
  arc A1 (-45.6596, 32) -> (-49.6596, 28) centre (-45.6596, 28) ccw
  line L8 (-45.6596, 32) -> (-25.5, 32)
  point P0 (0, 0)
extrude "Extrusion108" cut sketch "Sketch114" against normal blind 6
sketch "Sketch115" plane through (0, 0, -59.3) normal (0, 0, -1) x (-1, 0, 0)
  line L0 (-50.9952, -38.1245) -> (29.0048, -38.1245)
  line L1 (29.0048, -38.1245) -> (29.0048, 81.8755)
  line L2 (29.0048, 81.8755) -> (-50.9952, 81.8755)
  line L3 (-50.9952, 81.8755) -> (-50.9952, -38.1245)
  point P0 (0, 0)
  dimension "d363" = 80
  dimension "d364" = 120
sketch "Sketch116" plane through (0, 0, 5.2) normal (0, 0, 1) x (1, 0, 0)
  line L0 (25.5, -33) -> (-24.5, -33) projected
  line L1 (25.5, -33) -> (50.5194, -24.1438)
  line L2 (50.5194, -24.1438) -> (50.8592, -10.1321)
  line L3 (50.8592, -10.1321) -> (25.5, -8.1902)
  line L4 (25.5, 26) -> (25.5, -13.2226) projected
  line L5 (25.5, -27) -> (25.5, -33) projected
  line L6 (25.5, -33) -> (25.5, -8.1902)
  line L7 (25.5, -33) -> (62.3665, -33)
  line L8 (62.3665, -33) -> (62.3665, 19.7655)
  line L9 (62.3665, 19.7655) -> (25.5, 19.7655)
  line L10 (25.5, 19.7655) -> (25.5, -33)
  line L11 (62.3665, 19.7655) -> (25.5, 19.7655)
  line L12 (25.5, 19.7655) -> (25.5, -84.5573)
  line L13 (25.5, -84.5573) -> (62.3665, -84.5573)
  line L14 (62.3665, -84.5573) -> (62.3665, 19.7655)
  point P0 (0, 0)
extrude "Extrusion109" add sketch "Sketch116" along normal blind 9 and the other way blind 6 contours L5 L6 L4 L3 L2 L1
sketch "Sketch117" plane through (50.8592, -10.1321, 14.2) normal (0.9997, -0.0242, 0) x (0, 0, -1)
  line L0 (1.2948, -7.0247) -> (1.2483, -7.0247)
  line L1 (0, 1.3265) -> (0, -23.476) projected
  line L2 (9, -23.476) -> (9, 1.3265) projected
  circle A0 centre (5.5, -7.0247) radius 2.55
  line L3 (0, -7.0247) -> (5.5, -7.0247)
  point P0 (14.2, 8.896)
  dimension "d387" = 5.5
  dimension "d388" = 5.1
extrude "Extrusion111" cut sketch "Sketch116" against normal blind 20 contours L1 L2 L3 L4 L9 L8 L7 | L7 L14 L13 L12
sketch "Sketch118" plane through (-24.5, -33, -59.3) normal (0, -1, 0) x (1, 0, 0)
  line L0 (75.3592, 73.5) -> (50, 73.5) projected
  line L1 (50, 64.5) -> (50, 73.5) projected
  line L2 (50, 73.5) -> (50, 64.5)
  line L3 (50, 64.5) -> (35, 64.5)
  line L4 (50, 73.5) -> (35, 64.5)
  line L5 (50, 73.5) -> (35, 73.5)
  line L6 (35, 73.5) -> (35, 64.5)
  point P0 (24.5, 59.3)
  dimension "d373" = 15
extrude "Extrusion112" add sketch "Sketch118" against normal blind 24.81 contours L3 L4 L1
sketch "Sketch119" plane through (0, 0, 5.2) normal (0, 0, 1) x (1, 0, 0)
  circle A0 centre (0, 0) radius 12.5
  dimension "d376" = 25
extrude "Extrusion113" cut sketch "Sketch119" along normal blind 24.81
extrude "Extrusion115" cut sketch "Sketch117" against normal blind 40
fillet "Fillet25" radius 15 4 edges at (-24.5, -30, -59.3) (25.5, -30, -59.3) (25.5, 29, -59.3) (-24.5, 29, -59.3)
ref_plane "Work Plane3" through (-10.35, 26, -57) normal (0, 1, 0) x (1, 0, 0)
properties part number "C23[i3][L][2]" material "Aluminum 6061"
